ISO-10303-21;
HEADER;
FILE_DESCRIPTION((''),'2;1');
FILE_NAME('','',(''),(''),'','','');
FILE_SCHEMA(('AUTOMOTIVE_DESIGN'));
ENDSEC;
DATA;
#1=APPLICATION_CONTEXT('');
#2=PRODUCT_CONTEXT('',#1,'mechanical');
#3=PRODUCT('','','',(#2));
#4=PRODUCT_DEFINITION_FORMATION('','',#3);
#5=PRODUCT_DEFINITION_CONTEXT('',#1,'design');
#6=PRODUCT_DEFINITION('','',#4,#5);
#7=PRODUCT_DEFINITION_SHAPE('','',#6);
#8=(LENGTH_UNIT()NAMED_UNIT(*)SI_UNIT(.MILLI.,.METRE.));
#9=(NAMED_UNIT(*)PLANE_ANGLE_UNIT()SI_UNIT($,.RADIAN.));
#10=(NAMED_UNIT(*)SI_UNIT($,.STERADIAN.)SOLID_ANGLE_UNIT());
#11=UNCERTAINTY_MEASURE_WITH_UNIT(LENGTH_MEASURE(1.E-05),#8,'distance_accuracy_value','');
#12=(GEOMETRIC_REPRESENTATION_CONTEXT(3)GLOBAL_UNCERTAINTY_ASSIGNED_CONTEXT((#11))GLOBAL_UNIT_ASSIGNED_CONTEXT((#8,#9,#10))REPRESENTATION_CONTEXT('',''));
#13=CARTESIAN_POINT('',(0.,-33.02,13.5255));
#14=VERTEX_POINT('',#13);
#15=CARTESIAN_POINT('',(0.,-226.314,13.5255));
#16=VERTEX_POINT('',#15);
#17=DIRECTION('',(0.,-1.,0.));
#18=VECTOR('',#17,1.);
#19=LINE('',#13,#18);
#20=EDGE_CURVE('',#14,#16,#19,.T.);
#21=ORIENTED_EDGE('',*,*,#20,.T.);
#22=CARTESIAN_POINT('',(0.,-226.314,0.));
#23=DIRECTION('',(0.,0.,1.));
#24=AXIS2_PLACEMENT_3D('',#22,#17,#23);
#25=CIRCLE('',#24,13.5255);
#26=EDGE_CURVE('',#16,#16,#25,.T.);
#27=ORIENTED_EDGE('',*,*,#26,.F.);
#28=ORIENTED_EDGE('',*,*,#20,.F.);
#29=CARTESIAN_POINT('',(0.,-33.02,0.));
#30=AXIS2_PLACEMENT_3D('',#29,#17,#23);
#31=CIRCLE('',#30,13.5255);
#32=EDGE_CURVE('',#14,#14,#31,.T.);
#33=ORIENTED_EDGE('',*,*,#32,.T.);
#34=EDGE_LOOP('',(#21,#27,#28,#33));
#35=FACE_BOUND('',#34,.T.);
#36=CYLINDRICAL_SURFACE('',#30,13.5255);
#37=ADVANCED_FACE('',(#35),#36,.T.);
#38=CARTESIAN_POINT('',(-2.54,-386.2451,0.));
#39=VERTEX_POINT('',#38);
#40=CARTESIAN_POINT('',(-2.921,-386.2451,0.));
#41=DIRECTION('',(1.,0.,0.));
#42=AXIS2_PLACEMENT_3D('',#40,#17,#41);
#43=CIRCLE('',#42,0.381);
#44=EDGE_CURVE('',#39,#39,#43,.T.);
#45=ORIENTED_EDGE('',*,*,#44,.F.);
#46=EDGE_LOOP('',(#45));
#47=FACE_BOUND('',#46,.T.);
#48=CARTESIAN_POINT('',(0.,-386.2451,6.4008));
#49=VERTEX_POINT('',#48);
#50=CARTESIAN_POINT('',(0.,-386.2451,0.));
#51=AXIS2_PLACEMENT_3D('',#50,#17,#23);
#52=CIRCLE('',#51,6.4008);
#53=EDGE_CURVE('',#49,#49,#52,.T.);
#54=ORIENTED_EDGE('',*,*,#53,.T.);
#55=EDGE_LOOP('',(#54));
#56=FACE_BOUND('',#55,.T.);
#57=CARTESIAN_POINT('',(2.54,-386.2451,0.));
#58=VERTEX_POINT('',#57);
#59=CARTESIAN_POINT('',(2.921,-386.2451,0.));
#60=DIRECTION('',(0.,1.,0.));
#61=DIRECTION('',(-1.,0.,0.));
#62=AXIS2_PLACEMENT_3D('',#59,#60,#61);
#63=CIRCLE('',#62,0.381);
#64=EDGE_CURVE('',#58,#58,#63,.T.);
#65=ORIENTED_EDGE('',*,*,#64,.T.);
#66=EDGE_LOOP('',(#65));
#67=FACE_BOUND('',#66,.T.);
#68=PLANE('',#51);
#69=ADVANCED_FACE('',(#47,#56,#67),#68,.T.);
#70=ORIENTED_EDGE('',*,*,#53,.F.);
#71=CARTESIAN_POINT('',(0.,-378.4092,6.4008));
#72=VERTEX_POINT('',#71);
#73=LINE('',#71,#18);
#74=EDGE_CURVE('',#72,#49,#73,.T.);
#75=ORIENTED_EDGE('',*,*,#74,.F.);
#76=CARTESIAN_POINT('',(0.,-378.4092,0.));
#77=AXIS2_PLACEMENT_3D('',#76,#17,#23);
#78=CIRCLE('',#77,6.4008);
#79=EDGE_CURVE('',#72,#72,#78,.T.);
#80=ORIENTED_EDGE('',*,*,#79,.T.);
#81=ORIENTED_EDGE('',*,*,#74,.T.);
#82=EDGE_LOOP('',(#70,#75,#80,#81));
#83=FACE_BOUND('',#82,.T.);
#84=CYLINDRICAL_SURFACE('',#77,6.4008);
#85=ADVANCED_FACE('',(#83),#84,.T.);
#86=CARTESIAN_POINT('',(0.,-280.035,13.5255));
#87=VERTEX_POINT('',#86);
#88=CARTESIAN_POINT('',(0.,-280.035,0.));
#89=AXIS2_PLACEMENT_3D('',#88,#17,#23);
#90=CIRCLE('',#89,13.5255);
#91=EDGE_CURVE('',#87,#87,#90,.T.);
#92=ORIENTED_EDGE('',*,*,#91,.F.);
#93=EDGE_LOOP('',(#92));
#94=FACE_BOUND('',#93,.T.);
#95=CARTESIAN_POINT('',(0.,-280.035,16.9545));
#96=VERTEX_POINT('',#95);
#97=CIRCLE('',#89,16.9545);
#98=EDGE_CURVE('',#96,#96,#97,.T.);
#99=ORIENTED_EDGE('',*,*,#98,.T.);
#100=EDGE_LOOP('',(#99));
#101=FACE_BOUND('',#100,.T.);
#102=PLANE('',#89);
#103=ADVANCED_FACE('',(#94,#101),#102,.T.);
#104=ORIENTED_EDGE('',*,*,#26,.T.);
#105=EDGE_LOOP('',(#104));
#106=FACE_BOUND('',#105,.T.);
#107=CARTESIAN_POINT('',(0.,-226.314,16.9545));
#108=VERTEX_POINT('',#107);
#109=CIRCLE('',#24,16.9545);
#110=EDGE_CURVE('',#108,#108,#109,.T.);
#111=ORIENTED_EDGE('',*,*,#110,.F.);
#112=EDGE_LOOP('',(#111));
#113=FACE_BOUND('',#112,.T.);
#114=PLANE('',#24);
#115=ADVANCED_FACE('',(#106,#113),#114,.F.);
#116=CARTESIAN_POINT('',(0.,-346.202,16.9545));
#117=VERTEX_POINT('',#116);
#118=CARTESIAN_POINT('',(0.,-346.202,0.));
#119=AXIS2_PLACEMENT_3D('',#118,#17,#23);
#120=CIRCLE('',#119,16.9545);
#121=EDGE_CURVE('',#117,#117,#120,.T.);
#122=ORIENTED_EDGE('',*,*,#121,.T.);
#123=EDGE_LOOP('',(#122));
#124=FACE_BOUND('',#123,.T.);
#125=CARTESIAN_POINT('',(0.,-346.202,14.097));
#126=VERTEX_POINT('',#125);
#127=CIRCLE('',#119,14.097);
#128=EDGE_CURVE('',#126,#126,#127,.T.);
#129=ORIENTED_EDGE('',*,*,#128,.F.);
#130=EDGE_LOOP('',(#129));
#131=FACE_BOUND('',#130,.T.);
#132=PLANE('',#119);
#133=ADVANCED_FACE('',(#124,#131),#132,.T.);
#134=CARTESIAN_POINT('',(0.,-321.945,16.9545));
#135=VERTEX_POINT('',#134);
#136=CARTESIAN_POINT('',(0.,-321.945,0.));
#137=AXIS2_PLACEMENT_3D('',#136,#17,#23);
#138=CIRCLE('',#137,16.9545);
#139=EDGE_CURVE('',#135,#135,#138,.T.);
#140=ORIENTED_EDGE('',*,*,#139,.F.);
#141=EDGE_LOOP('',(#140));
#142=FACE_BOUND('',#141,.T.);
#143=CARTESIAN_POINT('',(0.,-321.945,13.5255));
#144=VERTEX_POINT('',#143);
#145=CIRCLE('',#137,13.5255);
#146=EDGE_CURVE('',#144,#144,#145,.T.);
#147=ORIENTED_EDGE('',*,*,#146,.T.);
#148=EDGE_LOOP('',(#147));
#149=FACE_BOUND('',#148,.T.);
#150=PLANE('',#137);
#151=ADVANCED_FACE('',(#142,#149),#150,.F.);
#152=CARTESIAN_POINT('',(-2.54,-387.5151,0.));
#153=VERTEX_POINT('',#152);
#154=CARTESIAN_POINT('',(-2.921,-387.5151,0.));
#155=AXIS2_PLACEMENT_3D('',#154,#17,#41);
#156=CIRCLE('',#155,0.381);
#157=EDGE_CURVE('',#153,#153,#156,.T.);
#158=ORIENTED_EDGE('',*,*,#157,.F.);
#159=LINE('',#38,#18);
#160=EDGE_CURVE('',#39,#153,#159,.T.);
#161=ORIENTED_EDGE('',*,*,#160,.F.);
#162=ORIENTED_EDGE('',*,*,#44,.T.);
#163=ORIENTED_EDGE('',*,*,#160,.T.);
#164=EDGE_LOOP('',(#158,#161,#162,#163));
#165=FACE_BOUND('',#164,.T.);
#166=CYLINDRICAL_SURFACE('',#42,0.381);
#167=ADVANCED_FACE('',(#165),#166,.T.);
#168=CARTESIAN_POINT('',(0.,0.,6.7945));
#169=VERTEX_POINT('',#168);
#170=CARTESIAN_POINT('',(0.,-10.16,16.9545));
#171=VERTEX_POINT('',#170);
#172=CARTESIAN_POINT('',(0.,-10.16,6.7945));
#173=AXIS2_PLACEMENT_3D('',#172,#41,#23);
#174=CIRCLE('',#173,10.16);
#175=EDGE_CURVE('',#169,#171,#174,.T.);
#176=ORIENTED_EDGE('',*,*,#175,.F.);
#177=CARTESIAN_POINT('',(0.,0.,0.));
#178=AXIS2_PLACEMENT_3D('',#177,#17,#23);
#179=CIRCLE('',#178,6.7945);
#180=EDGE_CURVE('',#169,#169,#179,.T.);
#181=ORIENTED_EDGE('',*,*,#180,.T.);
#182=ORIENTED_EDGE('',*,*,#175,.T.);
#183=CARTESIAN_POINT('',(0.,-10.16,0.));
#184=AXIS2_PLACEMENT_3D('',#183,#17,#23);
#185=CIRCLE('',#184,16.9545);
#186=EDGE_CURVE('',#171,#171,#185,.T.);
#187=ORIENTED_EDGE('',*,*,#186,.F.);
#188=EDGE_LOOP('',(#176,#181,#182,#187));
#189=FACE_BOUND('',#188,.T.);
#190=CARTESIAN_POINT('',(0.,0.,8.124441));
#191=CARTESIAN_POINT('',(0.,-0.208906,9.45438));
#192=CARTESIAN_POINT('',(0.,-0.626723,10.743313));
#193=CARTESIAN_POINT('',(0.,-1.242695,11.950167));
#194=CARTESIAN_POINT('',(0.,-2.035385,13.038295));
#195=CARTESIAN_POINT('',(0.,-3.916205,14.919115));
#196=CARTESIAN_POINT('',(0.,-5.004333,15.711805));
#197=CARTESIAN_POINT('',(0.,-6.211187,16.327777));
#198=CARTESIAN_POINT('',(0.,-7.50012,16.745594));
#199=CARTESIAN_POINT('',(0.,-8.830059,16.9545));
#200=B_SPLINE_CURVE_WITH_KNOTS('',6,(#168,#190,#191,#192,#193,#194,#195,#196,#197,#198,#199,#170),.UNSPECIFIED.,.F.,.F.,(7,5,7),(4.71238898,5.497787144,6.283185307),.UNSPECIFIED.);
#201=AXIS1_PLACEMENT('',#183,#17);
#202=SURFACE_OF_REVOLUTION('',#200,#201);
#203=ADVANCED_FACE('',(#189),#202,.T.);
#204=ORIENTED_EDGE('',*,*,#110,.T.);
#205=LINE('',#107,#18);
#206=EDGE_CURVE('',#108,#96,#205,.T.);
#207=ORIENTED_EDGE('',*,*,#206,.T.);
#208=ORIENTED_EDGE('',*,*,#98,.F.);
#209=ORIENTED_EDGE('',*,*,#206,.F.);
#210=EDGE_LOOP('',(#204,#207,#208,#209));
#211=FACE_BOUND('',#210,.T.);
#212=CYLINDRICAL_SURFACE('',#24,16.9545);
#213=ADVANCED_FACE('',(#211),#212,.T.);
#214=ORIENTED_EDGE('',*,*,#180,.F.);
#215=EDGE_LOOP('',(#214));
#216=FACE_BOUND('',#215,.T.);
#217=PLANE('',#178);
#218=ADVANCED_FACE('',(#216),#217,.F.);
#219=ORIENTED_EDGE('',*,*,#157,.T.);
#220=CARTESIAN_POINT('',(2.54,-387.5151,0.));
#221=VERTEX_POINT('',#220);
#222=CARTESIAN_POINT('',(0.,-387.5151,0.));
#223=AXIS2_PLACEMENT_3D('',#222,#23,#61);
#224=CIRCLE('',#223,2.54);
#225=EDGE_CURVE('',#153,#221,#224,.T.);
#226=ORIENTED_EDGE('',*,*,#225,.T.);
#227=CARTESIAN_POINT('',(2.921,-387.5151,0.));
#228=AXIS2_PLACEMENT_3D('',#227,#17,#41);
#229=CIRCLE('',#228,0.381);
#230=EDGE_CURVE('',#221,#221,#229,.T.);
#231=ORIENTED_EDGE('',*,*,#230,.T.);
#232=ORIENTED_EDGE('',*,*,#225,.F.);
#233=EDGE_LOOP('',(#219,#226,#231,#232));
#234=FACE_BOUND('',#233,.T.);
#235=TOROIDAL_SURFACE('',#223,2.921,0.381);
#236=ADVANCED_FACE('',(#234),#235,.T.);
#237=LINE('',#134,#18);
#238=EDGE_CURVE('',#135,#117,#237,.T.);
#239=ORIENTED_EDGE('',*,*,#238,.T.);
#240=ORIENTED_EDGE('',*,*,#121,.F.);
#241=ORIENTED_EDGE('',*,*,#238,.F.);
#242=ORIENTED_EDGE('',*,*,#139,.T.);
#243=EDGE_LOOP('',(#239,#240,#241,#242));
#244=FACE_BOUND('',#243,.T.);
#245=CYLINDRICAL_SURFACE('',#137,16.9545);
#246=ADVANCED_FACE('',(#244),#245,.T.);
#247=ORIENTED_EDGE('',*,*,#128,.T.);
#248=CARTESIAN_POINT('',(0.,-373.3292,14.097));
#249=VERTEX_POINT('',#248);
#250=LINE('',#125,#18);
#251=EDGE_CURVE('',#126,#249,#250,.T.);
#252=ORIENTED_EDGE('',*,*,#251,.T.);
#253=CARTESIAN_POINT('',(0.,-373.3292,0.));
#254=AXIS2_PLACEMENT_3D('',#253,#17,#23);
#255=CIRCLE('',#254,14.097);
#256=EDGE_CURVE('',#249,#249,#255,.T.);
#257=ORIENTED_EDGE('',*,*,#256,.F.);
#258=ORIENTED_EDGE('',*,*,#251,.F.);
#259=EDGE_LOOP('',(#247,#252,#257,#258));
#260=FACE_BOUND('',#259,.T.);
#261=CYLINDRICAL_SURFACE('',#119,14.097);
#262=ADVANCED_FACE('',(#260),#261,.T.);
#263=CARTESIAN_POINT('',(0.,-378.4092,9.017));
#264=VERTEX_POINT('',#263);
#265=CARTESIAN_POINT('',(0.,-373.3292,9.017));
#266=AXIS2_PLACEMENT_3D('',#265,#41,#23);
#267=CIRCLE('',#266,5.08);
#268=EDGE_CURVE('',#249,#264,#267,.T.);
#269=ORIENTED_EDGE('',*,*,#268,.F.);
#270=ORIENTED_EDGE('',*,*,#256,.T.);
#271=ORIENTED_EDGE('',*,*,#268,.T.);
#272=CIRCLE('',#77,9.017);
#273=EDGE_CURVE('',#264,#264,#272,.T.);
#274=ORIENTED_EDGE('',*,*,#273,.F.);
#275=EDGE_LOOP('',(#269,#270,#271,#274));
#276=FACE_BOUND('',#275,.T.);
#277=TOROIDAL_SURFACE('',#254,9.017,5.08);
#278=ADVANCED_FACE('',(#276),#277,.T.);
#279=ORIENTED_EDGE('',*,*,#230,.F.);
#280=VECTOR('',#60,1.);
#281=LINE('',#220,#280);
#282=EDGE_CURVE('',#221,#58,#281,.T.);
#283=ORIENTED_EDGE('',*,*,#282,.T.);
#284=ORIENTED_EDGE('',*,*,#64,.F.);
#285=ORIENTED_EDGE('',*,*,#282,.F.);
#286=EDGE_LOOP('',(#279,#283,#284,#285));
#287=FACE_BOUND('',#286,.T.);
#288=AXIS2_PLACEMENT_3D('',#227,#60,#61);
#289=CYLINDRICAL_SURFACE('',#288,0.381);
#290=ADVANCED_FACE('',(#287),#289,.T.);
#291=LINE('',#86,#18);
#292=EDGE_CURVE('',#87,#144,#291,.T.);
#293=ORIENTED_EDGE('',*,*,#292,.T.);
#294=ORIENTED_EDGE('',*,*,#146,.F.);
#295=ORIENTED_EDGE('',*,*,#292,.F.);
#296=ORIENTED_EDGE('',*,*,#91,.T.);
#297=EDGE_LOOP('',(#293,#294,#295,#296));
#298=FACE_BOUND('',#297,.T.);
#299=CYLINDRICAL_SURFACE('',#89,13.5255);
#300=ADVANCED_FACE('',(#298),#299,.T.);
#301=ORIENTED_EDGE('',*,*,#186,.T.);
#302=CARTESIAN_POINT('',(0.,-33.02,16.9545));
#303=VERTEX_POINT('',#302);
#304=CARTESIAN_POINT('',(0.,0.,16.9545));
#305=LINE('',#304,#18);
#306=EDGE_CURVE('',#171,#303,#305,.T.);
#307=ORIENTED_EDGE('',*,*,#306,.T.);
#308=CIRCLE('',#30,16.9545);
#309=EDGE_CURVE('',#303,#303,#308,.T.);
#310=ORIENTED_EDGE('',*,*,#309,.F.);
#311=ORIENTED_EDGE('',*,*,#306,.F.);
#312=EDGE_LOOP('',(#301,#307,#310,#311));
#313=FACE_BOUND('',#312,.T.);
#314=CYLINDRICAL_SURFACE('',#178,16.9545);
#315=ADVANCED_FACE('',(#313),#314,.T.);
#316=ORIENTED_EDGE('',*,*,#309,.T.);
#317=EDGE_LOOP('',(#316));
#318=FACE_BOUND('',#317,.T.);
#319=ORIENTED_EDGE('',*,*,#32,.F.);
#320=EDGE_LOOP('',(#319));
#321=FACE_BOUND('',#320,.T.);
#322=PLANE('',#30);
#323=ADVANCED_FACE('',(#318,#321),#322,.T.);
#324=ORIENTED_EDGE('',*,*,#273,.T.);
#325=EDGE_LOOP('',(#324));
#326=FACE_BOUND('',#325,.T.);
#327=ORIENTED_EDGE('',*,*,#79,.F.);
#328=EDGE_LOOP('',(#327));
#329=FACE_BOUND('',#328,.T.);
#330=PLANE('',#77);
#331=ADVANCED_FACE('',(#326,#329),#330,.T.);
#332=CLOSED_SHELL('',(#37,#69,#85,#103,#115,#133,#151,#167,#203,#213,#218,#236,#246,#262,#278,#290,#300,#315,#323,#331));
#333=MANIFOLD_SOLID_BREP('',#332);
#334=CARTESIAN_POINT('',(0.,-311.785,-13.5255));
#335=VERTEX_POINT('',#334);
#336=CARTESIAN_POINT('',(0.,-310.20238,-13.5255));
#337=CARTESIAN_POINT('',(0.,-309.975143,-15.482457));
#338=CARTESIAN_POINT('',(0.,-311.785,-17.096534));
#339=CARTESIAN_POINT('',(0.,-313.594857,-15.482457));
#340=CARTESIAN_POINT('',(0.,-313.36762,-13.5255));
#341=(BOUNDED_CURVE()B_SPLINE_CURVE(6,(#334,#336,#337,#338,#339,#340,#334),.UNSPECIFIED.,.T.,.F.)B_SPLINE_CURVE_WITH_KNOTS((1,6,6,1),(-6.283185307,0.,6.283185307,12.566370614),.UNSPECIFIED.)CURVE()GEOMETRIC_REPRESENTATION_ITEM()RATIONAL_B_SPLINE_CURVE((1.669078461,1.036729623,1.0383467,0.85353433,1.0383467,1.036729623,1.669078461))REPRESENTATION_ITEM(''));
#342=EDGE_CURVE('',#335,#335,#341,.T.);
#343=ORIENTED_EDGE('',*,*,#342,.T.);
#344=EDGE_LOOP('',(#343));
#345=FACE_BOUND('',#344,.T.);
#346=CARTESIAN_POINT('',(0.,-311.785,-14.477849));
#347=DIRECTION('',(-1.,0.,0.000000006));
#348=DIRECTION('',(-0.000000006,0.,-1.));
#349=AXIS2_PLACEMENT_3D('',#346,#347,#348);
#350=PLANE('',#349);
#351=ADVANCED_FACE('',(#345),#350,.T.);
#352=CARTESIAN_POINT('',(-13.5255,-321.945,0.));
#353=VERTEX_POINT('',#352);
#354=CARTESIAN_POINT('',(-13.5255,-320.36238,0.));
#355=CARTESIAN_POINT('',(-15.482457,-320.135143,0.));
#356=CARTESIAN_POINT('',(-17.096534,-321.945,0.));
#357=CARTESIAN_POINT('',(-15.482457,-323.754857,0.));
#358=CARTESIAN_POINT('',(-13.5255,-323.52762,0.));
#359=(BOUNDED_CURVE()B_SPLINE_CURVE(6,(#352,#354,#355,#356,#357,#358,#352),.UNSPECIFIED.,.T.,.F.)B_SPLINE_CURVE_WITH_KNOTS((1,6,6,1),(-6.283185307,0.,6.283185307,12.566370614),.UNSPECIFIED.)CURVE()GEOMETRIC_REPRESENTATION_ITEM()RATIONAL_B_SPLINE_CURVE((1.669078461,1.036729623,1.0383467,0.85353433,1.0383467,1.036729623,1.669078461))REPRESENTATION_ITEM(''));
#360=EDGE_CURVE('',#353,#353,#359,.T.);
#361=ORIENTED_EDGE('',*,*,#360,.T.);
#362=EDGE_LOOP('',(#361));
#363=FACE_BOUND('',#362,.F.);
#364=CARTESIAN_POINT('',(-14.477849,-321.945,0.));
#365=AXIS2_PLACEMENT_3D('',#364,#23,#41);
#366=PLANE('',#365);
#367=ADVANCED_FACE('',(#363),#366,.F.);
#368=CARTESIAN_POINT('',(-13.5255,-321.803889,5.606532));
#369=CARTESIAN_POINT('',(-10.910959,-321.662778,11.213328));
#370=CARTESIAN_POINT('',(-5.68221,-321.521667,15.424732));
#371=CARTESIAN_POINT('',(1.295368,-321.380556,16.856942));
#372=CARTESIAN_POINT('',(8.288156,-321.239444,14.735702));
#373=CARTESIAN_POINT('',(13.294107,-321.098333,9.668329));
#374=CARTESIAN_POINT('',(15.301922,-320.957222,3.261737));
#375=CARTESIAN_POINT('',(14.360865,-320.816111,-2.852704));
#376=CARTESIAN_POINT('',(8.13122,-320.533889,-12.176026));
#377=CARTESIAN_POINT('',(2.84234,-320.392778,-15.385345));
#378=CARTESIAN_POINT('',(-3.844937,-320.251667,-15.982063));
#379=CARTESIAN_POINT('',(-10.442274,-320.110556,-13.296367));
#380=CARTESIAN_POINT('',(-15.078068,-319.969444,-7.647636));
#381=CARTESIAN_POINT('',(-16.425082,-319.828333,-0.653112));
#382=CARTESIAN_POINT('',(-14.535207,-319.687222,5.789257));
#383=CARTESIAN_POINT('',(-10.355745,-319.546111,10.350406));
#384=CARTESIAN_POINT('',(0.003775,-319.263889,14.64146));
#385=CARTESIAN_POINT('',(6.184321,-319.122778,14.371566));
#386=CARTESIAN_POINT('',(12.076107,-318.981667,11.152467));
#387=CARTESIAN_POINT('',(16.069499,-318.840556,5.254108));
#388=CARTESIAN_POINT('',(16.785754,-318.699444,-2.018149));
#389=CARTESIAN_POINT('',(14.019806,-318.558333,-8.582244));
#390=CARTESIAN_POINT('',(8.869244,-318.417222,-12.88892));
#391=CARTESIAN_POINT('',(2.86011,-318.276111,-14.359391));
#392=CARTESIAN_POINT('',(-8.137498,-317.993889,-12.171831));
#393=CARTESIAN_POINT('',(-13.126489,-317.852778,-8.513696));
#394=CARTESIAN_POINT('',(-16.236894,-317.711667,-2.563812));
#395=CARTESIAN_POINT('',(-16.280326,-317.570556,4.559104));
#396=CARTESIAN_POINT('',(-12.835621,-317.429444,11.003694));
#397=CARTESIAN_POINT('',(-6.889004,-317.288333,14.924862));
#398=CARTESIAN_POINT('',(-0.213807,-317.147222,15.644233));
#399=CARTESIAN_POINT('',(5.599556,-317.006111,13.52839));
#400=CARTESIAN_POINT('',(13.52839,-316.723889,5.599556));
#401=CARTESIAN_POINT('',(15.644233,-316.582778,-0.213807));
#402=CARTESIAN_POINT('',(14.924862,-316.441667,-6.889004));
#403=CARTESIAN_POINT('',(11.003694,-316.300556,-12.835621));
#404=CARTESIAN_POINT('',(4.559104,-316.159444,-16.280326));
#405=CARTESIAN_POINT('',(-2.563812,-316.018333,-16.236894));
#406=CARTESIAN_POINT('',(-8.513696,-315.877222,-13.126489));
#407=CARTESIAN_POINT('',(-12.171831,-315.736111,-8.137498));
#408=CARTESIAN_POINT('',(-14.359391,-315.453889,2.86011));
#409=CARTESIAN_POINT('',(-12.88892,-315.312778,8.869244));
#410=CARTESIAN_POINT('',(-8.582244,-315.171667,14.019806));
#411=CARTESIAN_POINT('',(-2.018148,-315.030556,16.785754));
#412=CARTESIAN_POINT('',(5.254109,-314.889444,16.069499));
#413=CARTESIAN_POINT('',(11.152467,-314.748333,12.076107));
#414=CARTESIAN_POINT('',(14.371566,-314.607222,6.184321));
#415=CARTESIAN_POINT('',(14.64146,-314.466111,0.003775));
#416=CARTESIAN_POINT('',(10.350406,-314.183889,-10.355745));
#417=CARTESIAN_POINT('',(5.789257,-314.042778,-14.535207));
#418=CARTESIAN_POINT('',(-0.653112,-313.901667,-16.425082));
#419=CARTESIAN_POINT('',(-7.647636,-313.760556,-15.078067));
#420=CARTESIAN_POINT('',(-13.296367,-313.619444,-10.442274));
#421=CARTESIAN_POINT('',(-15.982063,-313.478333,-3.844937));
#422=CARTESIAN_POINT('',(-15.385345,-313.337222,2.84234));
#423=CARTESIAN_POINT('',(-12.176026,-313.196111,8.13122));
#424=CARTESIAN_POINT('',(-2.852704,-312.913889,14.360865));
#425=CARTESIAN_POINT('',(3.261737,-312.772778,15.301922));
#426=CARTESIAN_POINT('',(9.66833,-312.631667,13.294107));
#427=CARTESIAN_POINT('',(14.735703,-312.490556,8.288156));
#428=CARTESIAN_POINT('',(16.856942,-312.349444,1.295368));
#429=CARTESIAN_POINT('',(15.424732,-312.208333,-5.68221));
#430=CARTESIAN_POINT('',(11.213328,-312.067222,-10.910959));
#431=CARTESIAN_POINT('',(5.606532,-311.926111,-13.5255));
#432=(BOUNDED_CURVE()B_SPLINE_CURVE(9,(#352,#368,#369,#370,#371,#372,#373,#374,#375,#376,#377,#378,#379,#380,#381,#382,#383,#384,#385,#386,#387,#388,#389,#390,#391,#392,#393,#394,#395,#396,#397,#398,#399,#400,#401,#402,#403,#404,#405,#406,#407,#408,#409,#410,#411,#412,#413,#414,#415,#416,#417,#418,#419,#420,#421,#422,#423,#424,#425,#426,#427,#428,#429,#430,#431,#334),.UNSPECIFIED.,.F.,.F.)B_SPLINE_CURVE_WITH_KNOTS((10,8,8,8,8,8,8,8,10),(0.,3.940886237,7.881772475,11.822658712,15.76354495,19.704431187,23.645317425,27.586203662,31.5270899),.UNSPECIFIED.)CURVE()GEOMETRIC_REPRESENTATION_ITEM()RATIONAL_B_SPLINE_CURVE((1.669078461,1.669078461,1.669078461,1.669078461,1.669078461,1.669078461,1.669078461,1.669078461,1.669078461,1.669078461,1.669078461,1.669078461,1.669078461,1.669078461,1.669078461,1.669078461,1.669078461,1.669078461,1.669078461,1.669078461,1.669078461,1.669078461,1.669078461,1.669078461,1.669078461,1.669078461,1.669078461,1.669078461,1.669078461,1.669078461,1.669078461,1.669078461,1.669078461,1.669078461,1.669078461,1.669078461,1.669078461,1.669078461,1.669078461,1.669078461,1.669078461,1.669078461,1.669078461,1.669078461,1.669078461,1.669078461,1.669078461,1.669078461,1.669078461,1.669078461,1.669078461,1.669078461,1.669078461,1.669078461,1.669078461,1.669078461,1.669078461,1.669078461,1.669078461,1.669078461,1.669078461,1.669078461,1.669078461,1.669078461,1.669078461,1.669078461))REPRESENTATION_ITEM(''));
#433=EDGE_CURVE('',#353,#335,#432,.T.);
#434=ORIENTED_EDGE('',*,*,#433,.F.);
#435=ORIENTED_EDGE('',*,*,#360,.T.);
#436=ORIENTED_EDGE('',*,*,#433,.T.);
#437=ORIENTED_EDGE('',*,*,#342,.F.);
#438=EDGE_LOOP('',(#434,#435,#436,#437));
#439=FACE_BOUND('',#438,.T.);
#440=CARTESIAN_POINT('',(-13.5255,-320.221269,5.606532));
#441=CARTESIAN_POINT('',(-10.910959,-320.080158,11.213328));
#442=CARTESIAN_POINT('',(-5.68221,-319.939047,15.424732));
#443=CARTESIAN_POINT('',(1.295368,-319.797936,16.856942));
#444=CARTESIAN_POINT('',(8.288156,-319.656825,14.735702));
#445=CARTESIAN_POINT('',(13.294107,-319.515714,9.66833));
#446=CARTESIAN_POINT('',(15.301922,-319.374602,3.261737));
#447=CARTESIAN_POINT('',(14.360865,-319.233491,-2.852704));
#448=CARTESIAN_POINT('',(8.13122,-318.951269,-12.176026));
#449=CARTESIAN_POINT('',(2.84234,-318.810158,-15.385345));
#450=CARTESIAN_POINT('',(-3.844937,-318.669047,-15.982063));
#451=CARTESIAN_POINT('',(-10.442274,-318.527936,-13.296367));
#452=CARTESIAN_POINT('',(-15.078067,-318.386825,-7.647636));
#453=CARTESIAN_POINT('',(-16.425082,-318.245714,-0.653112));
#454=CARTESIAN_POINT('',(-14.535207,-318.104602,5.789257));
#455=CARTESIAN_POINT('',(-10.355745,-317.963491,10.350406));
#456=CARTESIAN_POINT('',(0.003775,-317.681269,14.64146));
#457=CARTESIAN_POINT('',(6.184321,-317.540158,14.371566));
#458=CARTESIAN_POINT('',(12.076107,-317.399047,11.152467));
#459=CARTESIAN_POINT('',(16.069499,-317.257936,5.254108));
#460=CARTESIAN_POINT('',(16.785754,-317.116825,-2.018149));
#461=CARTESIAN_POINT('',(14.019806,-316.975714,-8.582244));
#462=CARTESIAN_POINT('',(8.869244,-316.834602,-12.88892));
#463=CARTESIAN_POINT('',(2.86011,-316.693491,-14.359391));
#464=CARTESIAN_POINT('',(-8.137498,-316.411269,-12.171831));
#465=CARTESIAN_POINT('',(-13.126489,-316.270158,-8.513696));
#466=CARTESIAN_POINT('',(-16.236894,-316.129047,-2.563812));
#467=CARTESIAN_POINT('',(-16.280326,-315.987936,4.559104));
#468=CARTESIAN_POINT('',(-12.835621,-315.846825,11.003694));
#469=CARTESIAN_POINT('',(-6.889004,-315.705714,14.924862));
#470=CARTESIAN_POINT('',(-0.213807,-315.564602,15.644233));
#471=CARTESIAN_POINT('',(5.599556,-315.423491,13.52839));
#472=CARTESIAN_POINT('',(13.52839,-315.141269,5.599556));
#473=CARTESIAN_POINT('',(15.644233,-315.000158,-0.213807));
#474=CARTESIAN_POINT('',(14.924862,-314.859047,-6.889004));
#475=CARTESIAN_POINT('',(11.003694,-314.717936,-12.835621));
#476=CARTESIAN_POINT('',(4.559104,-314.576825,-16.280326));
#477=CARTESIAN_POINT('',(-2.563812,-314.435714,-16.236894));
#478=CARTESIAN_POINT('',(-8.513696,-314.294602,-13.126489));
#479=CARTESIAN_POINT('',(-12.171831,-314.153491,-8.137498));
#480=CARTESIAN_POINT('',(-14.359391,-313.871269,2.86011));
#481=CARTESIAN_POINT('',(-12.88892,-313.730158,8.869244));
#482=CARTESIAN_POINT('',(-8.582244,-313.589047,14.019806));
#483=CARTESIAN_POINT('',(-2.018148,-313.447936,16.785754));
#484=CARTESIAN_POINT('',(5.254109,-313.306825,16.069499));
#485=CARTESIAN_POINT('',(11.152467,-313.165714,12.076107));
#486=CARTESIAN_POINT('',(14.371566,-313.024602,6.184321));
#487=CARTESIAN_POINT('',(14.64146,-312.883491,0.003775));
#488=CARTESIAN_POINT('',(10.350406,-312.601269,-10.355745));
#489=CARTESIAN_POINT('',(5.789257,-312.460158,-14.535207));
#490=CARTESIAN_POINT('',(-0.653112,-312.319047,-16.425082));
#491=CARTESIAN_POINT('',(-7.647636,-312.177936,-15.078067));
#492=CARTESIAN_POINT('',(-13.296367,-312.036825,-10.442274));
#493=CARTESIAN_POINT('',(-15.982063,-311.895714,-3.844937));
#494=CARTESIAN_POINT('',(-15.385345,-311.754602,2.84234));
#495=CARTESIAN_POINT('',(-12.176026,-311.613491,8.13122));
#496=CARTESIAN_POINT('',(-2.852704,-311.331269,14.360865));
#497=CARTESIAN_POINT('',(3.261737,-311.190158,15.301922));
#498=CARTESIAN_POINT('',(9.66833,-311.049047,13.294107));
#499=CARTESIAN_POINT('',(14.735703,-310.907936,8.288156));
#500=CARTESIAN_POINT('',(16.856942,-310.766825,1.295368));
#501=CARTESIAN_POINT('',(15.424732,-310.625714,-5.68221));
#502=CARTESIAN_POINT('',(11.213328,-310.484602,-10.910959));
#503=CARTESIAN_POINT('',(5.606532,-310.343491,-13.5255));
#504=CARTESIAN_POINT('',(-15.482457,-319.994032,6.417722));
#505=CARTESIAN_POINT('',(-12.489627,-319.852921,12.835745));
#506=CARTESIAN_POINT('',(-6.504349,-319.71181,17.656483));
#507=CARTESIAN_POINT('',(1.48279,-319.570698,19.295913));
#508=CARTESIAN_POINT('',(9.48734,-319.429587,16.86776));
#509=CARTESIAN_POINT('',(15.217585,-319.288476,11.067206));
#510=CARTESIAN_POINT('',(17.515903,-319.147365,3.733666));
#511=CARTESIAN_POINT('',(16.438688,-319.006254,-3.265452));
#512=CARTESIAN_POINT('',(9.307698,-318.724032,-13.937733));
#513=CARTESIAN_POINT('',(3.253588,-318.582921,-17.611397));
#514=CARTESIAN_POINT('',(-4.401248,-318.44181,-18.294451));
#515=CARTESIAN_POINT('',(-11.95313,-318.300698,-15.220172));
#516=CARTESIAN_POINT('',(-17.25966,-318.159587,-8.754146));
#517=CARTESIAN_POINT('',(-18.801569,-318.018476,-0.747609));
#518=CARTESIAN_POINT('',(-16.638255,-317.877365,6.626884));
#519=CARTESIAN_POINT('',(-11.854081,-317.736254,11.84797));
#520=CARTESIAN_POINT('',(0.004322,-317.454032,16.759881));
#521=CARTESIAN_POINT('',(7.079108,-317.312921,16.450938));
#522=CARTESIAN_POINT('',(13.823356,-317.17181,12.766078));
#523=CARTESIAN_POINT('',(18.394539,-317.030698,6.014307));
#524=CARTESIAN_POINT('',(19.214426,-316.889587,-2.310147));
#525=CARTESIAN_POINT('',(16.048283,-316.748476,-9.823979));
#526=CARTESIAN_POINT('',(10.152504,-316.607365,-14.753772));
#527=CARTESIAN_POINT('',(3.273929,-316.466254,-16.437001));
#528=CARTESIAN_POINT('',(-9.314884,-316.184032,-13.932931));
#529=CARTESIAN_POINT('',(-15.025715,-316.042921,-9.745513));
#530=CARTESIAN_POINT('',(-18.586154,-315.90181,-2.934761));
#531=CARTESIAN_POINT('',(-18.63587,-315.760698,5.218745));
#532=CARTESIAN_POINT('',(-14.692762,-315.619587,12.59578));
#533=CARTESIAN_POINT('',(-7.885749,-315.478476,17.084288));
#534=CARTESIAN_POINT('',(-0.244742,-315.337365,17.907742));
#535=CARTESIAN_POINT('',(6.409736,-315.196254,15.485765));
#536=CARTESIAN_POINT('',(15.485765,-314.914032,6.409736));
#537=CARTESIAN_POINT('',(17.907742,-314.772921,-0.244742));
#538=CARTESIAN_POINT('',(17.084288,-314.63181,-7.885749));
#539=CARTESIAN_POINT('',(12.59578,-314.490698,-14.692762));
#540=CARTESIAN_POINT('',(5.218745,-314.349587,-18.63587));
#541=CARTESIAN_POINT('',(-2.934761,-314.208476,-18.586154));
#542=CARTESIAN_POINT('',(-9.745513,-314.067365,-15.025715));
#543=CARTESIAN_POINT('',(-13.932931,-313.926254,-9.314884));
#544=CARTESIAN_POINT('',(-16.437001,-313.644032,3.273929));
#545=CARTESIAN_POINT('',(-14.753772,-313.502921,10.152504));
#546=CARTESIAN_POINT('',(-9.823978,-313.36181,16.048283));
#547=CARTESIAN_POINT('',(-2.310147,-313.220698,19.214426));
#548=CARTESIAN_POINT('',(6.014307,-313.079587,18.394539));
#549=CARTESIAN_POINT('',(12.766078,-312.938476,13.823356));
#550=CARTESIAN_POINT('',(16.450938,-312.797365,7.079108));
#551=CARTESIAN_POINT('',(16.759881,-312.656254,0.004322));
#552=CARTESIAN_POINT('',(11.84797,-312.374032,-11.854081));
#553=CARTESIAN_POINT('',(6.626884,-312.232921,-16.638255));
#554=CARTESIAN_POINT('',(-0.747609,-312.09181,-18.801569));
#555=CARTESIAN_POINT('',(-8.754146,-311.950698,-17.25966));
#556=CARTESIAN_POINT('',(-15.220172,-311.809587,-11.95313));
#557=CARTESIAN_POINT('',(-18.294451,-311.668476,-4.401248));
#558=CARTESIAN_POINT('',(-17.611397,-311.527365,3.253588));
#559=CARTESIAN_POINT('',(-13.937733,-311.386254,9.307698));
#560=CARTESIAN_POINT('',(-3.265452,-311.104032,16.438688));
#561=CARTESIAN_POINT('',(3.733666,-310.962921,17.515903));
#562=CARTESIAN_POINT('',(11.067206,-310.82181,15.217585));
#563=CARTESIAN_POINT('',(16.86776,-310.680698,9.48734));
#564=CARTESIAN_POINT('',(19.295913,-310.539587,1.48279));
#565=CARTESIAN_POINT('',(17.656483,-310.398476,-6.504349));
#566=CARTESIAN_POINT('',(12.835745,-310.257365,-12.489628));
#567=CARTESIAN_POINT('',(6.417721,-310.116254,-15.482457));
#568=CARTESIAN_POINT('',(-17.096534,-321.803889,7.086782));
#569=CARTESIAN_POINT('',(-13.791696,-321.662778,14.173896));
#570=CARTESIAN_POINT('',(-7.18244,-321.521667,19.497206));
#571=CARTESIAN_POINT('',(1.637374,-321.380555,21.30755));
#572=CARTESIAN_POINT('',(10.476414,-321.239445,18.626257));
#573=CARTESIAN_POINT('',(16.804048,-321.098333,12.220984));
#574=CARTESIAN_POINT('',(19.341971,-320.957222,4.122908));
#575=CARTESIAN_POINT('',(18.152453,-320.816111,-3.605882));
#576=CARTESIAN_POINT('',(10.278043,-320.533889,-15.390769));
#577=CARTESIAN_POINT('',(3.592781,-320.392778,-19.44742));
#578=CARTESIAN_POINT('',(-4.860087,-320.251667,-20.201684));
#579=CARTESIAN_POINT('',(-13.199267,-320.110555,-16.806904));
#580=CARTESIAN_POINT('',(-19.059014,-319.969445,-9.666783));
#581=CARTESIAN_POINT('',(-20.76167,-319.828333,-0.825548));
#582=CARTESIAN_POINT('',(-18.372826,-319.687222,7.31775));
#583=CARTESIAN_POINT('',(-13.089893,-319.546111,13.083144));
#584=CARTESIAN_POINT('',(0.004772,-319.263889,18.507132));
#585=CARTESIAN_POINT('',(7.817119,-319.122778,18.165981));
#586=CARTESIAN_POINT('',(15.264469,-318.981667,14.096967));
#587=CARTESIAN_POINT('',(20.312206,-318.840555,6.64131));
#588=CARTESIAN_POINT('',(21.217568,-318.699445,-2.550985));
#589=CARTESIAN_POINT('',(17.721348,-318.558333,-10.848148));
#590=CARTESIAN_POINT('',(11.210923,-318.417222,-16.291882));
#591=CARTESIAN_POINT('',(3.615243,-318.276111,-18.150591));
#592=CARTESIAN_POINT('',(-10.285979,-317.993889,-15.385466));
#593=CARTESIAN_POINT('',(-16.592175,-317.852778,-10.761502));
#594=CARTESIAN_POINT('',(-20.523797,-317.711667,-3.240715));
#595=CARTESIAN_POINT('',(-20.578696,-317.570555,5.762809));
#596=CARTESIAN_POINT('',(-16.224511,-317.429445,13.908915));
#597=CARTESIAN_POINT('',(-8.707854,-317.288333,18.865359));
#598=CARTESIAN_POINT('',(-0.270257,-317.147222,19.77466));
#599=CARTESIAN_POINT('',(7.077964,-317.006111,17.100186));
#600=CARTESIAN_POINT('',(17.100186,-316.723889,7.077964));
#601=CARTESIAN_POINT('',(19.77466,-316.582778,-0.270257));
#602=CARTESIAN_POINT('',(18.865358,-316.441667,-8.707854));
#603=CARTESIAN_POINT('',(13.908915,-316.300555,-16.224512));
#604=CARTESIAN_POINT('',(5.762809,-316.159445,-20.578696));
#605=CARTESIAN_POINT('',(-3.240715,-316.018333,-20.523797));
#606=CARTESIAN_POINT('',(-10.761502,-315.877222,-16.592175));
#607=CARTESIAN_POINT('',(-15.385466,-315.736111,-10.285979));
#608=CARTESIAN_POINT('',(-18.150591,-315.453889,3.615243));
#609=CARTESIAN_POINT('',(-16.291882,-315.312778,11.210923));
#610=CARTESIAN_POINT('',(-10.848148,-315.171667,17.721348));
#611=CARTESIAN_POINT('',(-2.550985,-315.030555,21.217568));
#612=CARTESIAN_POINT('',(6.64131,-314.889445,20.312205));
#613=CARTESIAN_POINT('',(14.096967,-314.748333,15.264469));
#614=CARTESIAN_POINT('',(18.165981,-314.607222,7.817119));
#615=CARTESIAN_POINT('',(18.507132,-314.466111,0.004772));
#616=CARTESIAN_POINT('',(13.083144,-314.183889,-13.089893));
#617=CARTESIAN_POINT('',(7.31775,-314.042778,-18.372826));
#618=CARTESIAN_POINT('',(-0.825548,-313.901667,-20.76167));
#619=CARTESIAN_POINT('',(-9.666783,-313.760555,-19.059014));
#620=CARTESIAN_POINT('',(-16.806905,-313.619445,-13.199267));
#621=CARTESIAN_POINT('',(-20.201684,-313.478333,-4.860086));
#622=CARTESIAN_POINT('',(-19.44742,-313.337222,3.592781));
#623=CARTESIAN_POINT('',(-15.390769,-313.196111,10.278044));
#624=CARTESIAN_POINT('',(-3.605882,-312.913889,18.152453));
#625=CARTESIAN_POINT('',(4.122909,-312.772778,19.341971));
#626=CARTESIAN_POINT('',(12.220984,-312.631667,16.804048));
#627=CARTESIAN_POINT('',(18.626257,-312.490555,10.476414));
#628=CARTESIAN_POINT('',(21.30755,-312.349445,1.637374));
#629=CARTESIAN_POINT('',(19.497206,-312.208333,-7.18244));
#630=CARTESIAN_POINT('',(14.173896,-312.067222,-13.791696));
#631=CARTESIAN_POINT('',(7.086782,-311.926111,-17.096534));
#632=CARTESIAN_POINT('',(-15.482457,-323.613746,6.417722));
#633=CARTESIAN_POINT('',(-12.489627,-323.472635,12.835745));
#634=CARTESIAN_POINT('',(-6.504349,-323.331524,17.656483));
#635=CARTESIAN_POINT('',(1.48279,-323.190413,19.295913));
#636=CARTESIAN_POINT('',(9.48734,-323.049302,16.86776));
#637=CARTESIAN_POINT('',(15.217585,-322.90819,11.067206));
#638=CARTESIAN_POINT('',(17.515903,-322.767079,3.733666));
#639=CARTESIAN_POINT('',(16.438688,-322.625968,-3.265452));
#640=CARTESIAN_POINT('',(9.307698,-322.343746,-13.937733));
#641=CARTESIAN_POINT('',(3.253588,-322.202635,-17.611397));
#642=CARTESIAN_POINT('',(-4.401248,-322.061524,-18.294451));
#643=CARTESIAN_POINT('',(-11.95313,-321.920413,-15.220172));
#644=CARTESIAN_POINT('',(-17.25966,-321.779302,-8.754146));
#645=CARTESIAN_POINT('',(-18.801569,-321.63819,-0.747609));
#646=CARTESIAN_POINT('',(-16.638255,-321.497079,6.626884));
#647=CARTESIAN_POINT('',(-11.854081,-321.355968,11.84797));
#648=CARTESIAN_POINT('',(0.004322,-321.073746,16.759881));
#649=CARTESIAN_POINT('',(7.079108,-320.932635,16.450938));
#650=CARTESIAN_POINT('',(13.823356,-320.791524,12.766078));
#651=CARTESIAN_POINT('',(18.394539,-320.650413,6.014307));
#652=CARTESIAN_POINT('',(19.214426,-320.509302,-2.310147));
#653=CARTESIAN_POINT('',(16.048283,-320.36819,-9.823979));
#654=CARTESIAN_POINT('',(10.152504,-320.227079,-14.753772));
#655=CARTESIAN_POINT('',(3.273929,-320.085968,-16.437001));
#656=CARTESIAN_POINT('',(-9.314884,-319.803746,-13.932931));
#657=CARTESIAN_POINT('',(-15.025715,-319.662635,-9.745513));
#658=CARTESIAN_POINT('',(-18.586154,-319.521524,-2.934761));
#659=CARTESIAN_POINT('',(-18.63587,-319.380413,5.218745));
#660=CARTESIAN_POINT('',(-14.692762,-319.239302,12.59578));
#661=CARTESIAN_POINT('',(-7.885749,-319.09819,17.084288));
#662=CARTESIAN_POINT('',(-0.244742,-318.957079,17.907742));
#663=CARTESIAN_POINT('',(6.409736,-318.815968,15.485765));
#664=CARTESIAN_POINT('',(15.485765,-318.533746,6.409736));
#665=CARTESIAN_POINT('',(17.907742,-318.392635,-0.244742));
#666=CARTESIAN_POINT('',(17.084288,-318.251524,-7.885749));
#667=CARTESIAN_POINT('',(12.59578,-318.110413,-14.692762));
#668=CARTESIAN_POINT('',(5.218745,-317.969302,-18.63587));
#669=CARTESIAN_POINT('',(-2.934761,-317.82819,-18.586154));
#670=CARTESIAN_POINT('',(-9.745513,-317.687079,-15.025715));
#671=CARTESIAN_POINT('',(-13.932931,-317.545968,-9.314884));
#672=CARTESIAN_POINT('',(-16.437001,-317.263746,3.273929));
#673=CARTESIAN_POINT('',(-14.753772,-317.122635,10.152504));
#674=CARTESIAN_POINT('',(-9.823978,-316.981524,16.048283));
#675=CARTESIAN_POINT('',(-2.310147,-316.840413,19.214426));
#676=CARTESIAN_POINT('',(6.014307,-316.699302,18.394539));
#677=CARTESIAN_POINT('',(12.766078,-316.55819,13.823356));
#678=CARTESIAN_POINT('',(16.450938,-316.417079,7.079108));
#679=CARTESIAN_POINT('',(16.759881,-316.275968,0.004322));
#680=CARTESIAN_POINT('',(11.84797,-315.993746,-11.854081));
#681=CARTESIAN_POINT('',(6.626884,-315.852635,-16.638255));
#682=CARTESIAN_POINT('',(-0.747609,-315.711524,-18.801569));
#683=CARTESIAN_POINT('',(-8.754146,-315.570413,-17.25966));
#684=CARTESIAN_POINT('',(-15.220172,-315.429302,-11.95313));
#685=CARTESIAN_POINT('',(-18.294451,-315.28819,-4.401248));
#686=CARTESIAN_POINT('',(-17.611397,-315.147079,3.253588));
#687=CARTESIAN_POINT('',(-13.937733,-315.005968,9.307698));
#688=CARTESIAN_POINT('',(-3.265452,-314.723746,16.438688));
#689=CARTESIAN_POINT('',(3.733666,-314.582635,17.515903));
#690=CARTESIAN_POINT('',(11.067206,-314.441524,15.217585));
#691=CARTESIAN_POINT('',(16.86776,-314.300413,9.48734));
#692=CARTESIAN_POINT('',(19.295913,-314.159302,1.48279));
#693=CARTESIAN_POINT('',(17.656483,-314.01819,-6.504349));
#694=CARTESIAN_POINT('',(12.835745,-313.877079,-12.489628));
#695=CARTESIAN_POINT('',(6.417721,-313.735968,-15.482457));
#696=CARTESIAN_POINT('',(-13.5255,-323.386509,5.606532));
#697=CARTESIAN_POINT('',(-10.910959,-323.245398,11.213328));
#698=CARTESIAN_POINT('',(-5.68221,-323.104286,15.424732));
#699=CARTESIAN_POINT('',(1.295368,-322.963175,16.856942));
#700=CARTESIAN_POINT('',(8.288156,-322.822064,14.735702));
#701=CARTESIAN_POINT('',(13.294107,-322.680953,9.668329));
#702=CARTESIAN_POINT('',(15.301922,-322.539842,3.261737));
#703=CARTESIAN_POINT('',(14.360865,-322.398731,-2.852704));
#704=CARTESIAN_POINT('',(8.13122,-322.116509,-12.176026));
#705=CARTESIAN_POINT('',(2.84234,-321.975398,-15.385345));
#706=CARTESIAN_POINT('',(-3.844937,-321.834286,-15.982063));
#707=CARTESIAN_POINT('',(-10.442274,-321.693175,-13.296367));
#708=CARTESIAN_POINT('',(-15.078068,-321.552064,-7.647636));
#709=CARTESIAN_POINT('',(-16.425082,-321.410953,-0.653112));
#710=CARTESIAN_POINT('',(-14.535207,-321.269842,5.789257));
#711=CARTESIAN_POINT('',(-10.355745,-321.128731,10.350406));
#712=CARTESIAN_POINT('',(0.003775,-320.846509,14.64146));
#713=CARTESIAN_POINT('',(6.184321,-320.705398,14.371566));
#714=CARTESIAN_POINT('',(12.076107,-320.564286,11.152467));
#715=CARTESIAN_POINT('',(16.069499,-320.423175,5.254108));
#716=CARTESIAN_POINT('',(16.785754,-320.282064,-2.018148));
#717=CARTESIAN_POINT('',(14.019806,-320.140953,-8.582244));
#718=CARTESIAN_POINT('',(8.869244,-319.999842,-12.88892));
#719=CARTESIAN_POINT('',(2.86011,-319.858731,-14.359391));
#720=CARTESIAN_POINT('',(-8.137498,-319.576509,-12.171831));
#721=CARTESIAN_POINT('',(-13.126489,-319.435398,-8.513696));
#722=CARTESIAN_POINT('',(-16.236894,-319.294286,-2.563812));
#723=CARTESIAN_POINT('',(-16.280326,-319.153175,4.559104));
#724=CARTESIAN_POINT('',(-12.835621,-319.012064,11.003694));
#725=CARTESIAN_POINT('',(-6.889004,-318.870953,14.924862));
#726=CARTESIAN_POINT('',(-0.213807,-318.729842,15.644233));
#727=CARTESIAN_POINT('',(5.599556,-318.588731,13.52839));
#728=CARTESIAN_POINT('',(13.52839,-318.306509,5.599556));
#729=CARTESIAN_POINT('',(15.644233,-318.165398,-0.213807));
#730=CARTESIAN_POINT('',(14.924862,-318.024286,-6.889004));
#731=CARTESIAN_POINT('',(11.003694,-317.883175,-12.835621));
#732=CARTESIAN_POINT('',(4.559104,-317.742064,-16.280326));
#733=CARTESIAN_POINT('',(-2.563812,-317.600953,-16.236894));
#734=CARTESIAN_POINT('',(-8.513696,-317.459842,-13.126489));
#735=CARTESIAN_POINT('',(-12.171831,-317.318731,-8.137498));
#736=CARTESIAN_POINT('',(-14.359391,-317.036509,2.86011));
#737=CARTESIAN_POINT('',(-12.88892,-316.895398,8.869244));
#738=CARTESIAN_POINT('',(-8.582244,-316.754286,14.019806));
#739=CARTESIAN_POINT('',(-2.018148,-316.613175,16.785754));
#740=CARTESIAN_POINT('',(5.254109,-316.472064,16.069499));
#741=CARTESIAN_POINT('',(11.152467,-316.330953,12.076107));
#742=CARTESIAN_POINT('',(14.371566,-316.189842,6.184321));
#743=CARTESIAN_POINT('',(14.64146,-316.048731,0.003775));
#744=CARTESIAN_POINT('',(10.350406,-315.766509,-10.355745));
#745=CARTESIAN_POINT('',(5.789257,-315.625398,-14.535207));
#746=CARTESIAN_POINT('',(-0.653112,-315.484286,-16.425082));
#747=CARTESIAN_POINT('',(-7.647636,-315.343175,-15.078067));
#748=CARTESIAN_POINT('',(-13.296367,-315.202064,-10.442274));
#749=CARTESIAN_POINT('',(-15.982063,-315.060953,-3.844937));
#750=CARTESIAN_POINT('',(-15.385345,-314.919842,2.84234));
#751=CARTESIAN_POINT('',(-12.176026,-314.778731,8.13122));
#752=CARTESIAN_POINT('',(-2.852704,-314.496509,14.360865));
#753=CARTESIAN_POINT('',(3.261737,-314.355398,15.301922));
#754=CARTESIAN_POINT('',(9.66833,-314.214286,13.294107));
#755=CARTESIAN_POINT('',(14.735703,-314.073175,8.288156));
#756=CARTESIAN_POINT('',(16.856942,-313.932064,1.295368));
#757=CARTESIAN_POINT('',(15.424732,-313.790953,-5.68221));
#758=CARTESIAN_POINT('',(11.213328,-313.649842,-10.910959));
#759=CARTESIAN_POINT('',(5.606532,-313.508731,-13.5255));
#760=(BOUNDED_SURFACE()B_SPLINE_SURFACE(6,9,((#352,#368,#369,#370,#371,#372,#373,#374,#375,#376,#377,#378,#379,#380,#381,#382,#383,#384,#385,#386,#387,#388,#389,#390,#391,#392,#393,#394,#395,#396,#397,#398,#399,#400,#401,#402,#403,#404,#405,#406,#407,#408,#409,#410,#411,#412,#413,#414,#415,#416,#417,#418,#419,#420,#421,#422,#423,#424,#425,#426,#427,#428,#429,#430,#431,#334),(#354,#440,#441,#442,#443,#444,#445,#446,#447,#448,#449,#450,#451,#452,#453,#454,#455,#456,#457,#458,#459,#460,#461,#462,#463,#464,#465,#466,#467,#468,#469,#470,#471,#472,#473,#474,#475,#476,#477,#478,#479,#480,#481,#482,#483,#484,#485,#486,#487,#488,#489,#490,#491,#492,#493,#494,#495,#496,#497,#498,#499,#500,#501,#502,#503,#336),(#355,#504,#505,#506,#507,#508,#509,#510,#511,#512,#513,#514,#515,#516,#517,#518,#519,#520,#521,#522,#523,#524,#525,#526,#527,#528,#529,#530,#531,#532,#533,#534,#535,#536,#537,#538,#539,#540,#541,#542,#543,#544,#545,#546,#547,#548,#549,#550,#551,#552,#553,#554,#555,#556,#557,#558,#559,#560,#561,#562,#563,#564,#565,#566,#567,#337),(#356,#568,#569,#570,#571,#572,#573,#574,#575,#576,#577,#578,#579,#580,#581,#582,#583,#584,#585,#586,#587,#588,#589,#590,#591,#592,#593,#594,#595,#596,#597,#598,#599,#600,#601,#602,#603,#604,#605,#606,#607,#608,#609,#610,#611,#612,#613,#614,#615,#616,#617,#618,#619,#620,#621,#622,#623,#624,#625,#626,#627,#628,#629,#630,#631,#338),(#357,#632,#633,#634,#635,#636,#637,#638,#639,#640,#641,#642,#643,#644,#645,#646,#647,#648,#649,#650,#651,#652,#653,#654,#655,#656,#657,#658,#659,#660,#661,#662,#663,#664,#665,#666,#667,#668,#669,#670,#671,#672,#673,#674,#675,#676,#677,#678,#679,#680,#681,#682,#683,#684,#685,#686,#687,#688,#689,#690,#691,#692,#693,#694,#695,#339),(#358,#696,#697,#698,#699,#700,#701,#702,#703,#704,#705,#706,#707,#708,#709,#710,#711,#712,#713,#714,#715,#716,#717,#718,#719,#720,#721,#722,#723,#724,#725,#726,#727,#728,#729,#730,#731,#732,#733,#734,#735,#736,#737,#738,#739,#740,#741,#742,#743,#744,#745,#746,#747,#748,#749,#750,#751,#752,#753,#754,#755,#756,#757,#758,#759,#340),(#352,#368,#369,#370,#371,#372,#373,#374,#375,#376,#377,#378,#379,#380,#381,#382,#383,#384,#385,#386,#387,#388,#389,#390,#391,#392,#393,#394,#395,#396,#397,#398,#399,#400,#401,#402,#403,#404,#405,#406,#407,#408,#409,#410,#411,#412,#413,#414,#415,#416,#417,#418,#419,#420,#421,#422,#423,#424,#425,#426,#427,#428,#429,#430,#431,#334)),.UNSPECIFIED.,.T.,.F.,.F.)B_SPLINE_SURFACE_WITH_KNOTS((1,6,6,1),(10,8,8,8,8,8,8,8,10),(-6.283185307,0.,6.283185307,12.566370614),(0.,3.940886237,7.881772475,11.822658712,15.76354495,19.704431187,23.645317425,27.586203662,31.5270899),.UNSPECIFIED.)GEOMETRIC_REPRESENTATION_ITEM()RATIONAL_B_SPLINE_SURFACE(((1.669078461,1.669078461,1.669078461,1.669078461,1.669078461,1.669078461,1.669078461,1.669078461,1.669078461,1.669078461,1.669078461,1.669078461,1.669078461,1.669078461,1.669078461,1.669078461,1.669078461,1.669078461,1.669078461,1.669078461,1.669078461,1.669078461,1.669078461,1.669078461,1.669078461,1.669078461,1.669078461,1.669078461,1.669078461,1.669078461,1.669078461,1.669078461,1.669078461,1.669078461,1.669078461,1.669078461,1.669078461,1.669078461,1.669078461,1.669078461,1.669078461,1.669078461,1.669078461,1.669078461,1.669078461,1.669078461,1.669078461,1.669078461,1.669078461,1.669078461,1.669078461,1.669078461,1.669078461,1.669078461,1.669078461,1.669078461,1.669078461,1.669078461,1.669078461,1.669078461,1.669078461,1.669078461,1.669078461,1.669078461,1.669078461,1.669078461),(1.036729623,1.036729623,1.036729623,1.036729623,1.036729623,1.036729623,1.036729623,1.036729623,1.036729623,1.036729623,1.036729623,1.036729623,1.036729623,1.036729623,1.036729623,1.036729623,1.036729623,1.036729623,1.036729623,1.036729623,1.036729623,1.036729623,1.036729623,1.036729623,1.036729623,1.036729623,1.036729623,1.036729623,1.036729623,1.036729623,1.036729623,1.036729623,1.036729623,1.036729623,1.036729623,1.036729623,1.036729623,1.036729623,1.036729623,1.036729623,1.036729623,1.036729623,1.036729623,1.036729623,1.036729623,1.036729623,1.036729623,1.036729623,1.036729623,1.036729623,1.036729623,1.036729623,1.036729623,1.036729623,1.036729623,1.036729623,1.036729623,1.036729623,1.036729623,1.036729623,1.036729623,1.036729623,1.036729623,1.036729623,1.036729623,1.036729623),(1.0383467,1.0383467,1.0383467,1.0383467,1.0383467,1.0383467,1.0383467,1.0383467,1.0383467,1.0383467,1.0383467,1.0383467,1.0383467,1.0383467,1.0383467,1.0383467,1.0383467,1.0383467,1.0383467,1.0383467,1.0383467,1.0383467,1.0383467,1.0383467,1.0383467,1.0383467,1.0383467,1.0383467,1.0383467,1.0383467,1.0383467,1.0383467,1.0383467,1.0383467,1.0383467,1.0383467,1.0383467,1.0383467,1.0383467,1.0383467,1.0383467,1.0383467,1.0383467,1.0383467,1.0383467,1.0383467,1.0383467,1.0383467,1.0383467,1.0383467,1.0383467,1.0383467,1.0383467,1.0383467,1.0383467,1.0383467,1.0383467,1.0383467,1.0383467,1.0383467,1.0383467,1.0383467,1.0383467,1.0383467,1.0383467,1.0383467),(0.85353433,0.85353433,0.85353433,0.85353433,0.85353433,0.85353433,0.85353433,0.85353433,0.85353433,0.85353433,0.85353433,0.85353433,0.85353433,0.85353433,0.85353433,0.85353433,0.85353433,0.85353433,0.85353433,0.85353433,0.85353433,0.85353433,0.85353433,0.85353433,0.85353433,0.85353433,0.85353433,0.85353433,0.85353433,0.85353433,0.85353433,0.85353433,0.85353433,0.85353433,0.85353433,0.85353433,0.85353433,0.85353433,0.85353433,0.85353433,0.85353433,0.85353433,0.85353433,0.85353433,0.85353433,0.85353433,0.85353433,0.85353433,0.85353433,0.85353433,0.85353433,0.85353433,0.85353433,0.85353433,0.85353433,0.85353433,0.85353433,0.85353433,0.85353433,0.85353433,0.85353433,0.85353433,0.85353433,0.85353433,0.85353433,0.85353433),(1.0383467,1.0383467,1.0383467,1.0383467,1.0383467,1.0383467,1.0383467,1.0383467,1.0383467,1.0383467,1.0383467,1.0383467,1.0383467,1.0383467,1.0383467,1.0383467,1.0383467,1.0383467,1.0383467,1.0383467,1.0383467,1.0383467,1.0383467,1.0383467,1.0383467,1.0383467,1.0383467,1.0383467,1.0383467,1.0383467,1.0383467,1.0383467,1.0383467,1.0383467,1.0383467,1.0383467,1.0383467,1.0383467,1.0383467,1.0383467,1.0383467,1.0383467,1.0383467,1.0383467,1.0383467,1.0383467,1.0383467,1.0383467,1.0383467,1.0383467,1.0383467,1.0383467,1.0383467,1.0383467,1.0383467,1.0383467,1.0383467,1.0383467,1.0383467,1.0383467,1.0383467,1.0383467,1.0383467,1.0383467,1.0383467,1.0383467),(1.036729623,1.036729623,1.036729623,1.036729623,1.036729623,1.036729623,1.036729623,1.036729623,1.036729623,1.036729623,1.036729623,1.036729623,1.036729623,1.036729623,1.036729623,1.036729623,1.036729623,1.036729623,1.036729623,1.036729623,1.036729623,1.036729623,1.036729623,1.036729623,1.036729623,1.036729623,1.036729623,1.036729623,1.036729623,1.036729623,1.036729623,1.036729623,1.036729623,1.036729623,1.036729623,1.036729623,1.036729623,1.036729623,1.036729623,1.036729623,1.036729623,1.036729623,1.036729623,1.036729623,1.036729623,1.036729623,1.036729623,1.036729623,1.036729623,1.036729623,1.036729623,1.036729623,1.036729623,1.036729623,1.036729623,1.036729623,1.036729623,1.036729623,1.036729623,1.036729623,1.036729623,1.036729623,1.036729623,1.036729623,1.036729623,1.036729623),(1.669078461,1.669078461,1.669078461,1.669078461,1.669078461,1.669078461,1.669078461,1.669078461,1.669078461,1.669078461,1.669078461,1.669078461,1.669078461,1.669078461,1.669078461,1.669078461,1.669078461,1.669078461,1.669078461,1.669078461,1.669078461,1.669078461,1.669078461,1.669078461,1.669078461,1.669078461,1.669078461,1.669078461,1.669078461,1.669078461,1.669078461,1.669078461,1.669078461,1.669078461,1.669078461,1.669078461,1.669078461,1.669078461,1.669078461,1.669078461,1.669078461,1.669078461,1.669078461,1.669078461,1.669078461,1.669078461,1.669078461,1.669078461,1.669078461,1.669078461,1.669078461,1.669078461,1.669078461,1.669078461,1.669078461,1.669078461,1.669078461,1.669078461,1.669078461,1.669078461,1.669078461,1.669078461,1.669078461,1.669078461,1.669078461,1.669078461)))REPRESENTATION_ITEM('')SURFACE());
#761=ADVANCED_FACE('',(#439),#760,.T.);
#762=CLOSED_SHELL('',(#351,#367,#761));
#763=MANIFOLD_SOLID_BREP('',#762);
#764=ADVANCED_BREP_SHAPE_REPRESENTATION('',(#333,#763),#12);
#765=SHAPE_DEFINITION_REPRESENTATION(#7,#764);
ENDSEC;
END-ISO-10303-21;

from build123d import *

# Parameters (mm, degrees)
FILLET1_R          = 10.16
FILLET2_R          = 5.08
SWEEP2_PITCH       = 2.138947368
SWEEP2_HEIGHT      = 10.16
SWEEP2_RADIUS      = 14.478
SWEEP2_START_ANGLE = -90
SKETCH3_R          = 0.9525
SKETCH6_R          = 0.381


with BuildPart() as part:
    # Sketch1 → Revolve1 (revolve)
    with BuildSketch(Plane.XY, mode=Mode.PRIVATE) as revolve1_sk:
        Polygon((0, 0), (-16.9545, 0), (-16.9545, -33.02), (-13.5255, -33.02), (-13.5255, -226.314), (-16.9545, -226.314), (-16.9545, -280.035), (-13.5255, -280.035), (-13.5255, -321.945), (-16.9545, -321.945), (-16.9545, -346.202), (-14.097, -346.202), (-14.097, -378.4092), (-6.4008, -378.4092), (-6.4008, -386.2451), (0, -386.2451), align=None)
    revolve(revolve1_sk.sketch.rotate(Axis((0, 0, 0), (0, -1, 0)), 270), axis=Axis((0, 0, 0), (0, -1, 0)))

    # Fillet1
    fillet1_edges = [part.edges().sort_by_distance(p)[0] for p in [
        (0, 0, -16.9545),
    ]]
    fillet(fillet1_edges, radius=FILLET1_R)

    # Fillet2
    fillet2_edges = [part.edges().sort_by_distance(p)[0] for p in [
        (0, -378.4092, -14.097),
    ]]
    fillet(fillet2_edges, radius=FILLET2_R)

    # Sweep3: sweep along a path in Sketch5
    with BuildLine(Plane.XY) as sweep3_path:
        Line((-2.921, -386.2451), (-2.921, -387.5151))
        ThreePointArc((-2.921, -387.5151), (0, -390.4361), (2.921, -387.5151))
        Line((2.921, -387.5151), (2.921, -386.2451))
    # Sketch6 → Sweep3 (sweep)
    with BuildSketch(Plane.XZ.offset(386.2451)):
        with Locations((-2.921, 0)):
            Circle(SKETCH6_R)
    sweep(path=sweep3_path.line)


with BuildPart() as body_2:
    # Sweep2: sweep along a helix
    with BuildLine() as sweep2_path:
        add(Helix(SWEEP2_PITCH, SWEEP2_HEIGHT, SWEEP2_RADIUS, center=(0, -321.945, 0), direction=(0, 1, 0), mode=Mode.PRIVATE).rotate(Axis((0, -321.945, 0), (0, 1, 0)), SWEEP2_START_ANGLE))
    # Sketch3 → Sweep2 (sweep)
    with BuildSketch(Plane.XY):
        with Locations((-14.478, -321.945)):
            Circle(SKETCH3_R)
    sweep(path=sweep2_path.line, is_frenet=True)


solid = Compound([part.part, body_2.part])
